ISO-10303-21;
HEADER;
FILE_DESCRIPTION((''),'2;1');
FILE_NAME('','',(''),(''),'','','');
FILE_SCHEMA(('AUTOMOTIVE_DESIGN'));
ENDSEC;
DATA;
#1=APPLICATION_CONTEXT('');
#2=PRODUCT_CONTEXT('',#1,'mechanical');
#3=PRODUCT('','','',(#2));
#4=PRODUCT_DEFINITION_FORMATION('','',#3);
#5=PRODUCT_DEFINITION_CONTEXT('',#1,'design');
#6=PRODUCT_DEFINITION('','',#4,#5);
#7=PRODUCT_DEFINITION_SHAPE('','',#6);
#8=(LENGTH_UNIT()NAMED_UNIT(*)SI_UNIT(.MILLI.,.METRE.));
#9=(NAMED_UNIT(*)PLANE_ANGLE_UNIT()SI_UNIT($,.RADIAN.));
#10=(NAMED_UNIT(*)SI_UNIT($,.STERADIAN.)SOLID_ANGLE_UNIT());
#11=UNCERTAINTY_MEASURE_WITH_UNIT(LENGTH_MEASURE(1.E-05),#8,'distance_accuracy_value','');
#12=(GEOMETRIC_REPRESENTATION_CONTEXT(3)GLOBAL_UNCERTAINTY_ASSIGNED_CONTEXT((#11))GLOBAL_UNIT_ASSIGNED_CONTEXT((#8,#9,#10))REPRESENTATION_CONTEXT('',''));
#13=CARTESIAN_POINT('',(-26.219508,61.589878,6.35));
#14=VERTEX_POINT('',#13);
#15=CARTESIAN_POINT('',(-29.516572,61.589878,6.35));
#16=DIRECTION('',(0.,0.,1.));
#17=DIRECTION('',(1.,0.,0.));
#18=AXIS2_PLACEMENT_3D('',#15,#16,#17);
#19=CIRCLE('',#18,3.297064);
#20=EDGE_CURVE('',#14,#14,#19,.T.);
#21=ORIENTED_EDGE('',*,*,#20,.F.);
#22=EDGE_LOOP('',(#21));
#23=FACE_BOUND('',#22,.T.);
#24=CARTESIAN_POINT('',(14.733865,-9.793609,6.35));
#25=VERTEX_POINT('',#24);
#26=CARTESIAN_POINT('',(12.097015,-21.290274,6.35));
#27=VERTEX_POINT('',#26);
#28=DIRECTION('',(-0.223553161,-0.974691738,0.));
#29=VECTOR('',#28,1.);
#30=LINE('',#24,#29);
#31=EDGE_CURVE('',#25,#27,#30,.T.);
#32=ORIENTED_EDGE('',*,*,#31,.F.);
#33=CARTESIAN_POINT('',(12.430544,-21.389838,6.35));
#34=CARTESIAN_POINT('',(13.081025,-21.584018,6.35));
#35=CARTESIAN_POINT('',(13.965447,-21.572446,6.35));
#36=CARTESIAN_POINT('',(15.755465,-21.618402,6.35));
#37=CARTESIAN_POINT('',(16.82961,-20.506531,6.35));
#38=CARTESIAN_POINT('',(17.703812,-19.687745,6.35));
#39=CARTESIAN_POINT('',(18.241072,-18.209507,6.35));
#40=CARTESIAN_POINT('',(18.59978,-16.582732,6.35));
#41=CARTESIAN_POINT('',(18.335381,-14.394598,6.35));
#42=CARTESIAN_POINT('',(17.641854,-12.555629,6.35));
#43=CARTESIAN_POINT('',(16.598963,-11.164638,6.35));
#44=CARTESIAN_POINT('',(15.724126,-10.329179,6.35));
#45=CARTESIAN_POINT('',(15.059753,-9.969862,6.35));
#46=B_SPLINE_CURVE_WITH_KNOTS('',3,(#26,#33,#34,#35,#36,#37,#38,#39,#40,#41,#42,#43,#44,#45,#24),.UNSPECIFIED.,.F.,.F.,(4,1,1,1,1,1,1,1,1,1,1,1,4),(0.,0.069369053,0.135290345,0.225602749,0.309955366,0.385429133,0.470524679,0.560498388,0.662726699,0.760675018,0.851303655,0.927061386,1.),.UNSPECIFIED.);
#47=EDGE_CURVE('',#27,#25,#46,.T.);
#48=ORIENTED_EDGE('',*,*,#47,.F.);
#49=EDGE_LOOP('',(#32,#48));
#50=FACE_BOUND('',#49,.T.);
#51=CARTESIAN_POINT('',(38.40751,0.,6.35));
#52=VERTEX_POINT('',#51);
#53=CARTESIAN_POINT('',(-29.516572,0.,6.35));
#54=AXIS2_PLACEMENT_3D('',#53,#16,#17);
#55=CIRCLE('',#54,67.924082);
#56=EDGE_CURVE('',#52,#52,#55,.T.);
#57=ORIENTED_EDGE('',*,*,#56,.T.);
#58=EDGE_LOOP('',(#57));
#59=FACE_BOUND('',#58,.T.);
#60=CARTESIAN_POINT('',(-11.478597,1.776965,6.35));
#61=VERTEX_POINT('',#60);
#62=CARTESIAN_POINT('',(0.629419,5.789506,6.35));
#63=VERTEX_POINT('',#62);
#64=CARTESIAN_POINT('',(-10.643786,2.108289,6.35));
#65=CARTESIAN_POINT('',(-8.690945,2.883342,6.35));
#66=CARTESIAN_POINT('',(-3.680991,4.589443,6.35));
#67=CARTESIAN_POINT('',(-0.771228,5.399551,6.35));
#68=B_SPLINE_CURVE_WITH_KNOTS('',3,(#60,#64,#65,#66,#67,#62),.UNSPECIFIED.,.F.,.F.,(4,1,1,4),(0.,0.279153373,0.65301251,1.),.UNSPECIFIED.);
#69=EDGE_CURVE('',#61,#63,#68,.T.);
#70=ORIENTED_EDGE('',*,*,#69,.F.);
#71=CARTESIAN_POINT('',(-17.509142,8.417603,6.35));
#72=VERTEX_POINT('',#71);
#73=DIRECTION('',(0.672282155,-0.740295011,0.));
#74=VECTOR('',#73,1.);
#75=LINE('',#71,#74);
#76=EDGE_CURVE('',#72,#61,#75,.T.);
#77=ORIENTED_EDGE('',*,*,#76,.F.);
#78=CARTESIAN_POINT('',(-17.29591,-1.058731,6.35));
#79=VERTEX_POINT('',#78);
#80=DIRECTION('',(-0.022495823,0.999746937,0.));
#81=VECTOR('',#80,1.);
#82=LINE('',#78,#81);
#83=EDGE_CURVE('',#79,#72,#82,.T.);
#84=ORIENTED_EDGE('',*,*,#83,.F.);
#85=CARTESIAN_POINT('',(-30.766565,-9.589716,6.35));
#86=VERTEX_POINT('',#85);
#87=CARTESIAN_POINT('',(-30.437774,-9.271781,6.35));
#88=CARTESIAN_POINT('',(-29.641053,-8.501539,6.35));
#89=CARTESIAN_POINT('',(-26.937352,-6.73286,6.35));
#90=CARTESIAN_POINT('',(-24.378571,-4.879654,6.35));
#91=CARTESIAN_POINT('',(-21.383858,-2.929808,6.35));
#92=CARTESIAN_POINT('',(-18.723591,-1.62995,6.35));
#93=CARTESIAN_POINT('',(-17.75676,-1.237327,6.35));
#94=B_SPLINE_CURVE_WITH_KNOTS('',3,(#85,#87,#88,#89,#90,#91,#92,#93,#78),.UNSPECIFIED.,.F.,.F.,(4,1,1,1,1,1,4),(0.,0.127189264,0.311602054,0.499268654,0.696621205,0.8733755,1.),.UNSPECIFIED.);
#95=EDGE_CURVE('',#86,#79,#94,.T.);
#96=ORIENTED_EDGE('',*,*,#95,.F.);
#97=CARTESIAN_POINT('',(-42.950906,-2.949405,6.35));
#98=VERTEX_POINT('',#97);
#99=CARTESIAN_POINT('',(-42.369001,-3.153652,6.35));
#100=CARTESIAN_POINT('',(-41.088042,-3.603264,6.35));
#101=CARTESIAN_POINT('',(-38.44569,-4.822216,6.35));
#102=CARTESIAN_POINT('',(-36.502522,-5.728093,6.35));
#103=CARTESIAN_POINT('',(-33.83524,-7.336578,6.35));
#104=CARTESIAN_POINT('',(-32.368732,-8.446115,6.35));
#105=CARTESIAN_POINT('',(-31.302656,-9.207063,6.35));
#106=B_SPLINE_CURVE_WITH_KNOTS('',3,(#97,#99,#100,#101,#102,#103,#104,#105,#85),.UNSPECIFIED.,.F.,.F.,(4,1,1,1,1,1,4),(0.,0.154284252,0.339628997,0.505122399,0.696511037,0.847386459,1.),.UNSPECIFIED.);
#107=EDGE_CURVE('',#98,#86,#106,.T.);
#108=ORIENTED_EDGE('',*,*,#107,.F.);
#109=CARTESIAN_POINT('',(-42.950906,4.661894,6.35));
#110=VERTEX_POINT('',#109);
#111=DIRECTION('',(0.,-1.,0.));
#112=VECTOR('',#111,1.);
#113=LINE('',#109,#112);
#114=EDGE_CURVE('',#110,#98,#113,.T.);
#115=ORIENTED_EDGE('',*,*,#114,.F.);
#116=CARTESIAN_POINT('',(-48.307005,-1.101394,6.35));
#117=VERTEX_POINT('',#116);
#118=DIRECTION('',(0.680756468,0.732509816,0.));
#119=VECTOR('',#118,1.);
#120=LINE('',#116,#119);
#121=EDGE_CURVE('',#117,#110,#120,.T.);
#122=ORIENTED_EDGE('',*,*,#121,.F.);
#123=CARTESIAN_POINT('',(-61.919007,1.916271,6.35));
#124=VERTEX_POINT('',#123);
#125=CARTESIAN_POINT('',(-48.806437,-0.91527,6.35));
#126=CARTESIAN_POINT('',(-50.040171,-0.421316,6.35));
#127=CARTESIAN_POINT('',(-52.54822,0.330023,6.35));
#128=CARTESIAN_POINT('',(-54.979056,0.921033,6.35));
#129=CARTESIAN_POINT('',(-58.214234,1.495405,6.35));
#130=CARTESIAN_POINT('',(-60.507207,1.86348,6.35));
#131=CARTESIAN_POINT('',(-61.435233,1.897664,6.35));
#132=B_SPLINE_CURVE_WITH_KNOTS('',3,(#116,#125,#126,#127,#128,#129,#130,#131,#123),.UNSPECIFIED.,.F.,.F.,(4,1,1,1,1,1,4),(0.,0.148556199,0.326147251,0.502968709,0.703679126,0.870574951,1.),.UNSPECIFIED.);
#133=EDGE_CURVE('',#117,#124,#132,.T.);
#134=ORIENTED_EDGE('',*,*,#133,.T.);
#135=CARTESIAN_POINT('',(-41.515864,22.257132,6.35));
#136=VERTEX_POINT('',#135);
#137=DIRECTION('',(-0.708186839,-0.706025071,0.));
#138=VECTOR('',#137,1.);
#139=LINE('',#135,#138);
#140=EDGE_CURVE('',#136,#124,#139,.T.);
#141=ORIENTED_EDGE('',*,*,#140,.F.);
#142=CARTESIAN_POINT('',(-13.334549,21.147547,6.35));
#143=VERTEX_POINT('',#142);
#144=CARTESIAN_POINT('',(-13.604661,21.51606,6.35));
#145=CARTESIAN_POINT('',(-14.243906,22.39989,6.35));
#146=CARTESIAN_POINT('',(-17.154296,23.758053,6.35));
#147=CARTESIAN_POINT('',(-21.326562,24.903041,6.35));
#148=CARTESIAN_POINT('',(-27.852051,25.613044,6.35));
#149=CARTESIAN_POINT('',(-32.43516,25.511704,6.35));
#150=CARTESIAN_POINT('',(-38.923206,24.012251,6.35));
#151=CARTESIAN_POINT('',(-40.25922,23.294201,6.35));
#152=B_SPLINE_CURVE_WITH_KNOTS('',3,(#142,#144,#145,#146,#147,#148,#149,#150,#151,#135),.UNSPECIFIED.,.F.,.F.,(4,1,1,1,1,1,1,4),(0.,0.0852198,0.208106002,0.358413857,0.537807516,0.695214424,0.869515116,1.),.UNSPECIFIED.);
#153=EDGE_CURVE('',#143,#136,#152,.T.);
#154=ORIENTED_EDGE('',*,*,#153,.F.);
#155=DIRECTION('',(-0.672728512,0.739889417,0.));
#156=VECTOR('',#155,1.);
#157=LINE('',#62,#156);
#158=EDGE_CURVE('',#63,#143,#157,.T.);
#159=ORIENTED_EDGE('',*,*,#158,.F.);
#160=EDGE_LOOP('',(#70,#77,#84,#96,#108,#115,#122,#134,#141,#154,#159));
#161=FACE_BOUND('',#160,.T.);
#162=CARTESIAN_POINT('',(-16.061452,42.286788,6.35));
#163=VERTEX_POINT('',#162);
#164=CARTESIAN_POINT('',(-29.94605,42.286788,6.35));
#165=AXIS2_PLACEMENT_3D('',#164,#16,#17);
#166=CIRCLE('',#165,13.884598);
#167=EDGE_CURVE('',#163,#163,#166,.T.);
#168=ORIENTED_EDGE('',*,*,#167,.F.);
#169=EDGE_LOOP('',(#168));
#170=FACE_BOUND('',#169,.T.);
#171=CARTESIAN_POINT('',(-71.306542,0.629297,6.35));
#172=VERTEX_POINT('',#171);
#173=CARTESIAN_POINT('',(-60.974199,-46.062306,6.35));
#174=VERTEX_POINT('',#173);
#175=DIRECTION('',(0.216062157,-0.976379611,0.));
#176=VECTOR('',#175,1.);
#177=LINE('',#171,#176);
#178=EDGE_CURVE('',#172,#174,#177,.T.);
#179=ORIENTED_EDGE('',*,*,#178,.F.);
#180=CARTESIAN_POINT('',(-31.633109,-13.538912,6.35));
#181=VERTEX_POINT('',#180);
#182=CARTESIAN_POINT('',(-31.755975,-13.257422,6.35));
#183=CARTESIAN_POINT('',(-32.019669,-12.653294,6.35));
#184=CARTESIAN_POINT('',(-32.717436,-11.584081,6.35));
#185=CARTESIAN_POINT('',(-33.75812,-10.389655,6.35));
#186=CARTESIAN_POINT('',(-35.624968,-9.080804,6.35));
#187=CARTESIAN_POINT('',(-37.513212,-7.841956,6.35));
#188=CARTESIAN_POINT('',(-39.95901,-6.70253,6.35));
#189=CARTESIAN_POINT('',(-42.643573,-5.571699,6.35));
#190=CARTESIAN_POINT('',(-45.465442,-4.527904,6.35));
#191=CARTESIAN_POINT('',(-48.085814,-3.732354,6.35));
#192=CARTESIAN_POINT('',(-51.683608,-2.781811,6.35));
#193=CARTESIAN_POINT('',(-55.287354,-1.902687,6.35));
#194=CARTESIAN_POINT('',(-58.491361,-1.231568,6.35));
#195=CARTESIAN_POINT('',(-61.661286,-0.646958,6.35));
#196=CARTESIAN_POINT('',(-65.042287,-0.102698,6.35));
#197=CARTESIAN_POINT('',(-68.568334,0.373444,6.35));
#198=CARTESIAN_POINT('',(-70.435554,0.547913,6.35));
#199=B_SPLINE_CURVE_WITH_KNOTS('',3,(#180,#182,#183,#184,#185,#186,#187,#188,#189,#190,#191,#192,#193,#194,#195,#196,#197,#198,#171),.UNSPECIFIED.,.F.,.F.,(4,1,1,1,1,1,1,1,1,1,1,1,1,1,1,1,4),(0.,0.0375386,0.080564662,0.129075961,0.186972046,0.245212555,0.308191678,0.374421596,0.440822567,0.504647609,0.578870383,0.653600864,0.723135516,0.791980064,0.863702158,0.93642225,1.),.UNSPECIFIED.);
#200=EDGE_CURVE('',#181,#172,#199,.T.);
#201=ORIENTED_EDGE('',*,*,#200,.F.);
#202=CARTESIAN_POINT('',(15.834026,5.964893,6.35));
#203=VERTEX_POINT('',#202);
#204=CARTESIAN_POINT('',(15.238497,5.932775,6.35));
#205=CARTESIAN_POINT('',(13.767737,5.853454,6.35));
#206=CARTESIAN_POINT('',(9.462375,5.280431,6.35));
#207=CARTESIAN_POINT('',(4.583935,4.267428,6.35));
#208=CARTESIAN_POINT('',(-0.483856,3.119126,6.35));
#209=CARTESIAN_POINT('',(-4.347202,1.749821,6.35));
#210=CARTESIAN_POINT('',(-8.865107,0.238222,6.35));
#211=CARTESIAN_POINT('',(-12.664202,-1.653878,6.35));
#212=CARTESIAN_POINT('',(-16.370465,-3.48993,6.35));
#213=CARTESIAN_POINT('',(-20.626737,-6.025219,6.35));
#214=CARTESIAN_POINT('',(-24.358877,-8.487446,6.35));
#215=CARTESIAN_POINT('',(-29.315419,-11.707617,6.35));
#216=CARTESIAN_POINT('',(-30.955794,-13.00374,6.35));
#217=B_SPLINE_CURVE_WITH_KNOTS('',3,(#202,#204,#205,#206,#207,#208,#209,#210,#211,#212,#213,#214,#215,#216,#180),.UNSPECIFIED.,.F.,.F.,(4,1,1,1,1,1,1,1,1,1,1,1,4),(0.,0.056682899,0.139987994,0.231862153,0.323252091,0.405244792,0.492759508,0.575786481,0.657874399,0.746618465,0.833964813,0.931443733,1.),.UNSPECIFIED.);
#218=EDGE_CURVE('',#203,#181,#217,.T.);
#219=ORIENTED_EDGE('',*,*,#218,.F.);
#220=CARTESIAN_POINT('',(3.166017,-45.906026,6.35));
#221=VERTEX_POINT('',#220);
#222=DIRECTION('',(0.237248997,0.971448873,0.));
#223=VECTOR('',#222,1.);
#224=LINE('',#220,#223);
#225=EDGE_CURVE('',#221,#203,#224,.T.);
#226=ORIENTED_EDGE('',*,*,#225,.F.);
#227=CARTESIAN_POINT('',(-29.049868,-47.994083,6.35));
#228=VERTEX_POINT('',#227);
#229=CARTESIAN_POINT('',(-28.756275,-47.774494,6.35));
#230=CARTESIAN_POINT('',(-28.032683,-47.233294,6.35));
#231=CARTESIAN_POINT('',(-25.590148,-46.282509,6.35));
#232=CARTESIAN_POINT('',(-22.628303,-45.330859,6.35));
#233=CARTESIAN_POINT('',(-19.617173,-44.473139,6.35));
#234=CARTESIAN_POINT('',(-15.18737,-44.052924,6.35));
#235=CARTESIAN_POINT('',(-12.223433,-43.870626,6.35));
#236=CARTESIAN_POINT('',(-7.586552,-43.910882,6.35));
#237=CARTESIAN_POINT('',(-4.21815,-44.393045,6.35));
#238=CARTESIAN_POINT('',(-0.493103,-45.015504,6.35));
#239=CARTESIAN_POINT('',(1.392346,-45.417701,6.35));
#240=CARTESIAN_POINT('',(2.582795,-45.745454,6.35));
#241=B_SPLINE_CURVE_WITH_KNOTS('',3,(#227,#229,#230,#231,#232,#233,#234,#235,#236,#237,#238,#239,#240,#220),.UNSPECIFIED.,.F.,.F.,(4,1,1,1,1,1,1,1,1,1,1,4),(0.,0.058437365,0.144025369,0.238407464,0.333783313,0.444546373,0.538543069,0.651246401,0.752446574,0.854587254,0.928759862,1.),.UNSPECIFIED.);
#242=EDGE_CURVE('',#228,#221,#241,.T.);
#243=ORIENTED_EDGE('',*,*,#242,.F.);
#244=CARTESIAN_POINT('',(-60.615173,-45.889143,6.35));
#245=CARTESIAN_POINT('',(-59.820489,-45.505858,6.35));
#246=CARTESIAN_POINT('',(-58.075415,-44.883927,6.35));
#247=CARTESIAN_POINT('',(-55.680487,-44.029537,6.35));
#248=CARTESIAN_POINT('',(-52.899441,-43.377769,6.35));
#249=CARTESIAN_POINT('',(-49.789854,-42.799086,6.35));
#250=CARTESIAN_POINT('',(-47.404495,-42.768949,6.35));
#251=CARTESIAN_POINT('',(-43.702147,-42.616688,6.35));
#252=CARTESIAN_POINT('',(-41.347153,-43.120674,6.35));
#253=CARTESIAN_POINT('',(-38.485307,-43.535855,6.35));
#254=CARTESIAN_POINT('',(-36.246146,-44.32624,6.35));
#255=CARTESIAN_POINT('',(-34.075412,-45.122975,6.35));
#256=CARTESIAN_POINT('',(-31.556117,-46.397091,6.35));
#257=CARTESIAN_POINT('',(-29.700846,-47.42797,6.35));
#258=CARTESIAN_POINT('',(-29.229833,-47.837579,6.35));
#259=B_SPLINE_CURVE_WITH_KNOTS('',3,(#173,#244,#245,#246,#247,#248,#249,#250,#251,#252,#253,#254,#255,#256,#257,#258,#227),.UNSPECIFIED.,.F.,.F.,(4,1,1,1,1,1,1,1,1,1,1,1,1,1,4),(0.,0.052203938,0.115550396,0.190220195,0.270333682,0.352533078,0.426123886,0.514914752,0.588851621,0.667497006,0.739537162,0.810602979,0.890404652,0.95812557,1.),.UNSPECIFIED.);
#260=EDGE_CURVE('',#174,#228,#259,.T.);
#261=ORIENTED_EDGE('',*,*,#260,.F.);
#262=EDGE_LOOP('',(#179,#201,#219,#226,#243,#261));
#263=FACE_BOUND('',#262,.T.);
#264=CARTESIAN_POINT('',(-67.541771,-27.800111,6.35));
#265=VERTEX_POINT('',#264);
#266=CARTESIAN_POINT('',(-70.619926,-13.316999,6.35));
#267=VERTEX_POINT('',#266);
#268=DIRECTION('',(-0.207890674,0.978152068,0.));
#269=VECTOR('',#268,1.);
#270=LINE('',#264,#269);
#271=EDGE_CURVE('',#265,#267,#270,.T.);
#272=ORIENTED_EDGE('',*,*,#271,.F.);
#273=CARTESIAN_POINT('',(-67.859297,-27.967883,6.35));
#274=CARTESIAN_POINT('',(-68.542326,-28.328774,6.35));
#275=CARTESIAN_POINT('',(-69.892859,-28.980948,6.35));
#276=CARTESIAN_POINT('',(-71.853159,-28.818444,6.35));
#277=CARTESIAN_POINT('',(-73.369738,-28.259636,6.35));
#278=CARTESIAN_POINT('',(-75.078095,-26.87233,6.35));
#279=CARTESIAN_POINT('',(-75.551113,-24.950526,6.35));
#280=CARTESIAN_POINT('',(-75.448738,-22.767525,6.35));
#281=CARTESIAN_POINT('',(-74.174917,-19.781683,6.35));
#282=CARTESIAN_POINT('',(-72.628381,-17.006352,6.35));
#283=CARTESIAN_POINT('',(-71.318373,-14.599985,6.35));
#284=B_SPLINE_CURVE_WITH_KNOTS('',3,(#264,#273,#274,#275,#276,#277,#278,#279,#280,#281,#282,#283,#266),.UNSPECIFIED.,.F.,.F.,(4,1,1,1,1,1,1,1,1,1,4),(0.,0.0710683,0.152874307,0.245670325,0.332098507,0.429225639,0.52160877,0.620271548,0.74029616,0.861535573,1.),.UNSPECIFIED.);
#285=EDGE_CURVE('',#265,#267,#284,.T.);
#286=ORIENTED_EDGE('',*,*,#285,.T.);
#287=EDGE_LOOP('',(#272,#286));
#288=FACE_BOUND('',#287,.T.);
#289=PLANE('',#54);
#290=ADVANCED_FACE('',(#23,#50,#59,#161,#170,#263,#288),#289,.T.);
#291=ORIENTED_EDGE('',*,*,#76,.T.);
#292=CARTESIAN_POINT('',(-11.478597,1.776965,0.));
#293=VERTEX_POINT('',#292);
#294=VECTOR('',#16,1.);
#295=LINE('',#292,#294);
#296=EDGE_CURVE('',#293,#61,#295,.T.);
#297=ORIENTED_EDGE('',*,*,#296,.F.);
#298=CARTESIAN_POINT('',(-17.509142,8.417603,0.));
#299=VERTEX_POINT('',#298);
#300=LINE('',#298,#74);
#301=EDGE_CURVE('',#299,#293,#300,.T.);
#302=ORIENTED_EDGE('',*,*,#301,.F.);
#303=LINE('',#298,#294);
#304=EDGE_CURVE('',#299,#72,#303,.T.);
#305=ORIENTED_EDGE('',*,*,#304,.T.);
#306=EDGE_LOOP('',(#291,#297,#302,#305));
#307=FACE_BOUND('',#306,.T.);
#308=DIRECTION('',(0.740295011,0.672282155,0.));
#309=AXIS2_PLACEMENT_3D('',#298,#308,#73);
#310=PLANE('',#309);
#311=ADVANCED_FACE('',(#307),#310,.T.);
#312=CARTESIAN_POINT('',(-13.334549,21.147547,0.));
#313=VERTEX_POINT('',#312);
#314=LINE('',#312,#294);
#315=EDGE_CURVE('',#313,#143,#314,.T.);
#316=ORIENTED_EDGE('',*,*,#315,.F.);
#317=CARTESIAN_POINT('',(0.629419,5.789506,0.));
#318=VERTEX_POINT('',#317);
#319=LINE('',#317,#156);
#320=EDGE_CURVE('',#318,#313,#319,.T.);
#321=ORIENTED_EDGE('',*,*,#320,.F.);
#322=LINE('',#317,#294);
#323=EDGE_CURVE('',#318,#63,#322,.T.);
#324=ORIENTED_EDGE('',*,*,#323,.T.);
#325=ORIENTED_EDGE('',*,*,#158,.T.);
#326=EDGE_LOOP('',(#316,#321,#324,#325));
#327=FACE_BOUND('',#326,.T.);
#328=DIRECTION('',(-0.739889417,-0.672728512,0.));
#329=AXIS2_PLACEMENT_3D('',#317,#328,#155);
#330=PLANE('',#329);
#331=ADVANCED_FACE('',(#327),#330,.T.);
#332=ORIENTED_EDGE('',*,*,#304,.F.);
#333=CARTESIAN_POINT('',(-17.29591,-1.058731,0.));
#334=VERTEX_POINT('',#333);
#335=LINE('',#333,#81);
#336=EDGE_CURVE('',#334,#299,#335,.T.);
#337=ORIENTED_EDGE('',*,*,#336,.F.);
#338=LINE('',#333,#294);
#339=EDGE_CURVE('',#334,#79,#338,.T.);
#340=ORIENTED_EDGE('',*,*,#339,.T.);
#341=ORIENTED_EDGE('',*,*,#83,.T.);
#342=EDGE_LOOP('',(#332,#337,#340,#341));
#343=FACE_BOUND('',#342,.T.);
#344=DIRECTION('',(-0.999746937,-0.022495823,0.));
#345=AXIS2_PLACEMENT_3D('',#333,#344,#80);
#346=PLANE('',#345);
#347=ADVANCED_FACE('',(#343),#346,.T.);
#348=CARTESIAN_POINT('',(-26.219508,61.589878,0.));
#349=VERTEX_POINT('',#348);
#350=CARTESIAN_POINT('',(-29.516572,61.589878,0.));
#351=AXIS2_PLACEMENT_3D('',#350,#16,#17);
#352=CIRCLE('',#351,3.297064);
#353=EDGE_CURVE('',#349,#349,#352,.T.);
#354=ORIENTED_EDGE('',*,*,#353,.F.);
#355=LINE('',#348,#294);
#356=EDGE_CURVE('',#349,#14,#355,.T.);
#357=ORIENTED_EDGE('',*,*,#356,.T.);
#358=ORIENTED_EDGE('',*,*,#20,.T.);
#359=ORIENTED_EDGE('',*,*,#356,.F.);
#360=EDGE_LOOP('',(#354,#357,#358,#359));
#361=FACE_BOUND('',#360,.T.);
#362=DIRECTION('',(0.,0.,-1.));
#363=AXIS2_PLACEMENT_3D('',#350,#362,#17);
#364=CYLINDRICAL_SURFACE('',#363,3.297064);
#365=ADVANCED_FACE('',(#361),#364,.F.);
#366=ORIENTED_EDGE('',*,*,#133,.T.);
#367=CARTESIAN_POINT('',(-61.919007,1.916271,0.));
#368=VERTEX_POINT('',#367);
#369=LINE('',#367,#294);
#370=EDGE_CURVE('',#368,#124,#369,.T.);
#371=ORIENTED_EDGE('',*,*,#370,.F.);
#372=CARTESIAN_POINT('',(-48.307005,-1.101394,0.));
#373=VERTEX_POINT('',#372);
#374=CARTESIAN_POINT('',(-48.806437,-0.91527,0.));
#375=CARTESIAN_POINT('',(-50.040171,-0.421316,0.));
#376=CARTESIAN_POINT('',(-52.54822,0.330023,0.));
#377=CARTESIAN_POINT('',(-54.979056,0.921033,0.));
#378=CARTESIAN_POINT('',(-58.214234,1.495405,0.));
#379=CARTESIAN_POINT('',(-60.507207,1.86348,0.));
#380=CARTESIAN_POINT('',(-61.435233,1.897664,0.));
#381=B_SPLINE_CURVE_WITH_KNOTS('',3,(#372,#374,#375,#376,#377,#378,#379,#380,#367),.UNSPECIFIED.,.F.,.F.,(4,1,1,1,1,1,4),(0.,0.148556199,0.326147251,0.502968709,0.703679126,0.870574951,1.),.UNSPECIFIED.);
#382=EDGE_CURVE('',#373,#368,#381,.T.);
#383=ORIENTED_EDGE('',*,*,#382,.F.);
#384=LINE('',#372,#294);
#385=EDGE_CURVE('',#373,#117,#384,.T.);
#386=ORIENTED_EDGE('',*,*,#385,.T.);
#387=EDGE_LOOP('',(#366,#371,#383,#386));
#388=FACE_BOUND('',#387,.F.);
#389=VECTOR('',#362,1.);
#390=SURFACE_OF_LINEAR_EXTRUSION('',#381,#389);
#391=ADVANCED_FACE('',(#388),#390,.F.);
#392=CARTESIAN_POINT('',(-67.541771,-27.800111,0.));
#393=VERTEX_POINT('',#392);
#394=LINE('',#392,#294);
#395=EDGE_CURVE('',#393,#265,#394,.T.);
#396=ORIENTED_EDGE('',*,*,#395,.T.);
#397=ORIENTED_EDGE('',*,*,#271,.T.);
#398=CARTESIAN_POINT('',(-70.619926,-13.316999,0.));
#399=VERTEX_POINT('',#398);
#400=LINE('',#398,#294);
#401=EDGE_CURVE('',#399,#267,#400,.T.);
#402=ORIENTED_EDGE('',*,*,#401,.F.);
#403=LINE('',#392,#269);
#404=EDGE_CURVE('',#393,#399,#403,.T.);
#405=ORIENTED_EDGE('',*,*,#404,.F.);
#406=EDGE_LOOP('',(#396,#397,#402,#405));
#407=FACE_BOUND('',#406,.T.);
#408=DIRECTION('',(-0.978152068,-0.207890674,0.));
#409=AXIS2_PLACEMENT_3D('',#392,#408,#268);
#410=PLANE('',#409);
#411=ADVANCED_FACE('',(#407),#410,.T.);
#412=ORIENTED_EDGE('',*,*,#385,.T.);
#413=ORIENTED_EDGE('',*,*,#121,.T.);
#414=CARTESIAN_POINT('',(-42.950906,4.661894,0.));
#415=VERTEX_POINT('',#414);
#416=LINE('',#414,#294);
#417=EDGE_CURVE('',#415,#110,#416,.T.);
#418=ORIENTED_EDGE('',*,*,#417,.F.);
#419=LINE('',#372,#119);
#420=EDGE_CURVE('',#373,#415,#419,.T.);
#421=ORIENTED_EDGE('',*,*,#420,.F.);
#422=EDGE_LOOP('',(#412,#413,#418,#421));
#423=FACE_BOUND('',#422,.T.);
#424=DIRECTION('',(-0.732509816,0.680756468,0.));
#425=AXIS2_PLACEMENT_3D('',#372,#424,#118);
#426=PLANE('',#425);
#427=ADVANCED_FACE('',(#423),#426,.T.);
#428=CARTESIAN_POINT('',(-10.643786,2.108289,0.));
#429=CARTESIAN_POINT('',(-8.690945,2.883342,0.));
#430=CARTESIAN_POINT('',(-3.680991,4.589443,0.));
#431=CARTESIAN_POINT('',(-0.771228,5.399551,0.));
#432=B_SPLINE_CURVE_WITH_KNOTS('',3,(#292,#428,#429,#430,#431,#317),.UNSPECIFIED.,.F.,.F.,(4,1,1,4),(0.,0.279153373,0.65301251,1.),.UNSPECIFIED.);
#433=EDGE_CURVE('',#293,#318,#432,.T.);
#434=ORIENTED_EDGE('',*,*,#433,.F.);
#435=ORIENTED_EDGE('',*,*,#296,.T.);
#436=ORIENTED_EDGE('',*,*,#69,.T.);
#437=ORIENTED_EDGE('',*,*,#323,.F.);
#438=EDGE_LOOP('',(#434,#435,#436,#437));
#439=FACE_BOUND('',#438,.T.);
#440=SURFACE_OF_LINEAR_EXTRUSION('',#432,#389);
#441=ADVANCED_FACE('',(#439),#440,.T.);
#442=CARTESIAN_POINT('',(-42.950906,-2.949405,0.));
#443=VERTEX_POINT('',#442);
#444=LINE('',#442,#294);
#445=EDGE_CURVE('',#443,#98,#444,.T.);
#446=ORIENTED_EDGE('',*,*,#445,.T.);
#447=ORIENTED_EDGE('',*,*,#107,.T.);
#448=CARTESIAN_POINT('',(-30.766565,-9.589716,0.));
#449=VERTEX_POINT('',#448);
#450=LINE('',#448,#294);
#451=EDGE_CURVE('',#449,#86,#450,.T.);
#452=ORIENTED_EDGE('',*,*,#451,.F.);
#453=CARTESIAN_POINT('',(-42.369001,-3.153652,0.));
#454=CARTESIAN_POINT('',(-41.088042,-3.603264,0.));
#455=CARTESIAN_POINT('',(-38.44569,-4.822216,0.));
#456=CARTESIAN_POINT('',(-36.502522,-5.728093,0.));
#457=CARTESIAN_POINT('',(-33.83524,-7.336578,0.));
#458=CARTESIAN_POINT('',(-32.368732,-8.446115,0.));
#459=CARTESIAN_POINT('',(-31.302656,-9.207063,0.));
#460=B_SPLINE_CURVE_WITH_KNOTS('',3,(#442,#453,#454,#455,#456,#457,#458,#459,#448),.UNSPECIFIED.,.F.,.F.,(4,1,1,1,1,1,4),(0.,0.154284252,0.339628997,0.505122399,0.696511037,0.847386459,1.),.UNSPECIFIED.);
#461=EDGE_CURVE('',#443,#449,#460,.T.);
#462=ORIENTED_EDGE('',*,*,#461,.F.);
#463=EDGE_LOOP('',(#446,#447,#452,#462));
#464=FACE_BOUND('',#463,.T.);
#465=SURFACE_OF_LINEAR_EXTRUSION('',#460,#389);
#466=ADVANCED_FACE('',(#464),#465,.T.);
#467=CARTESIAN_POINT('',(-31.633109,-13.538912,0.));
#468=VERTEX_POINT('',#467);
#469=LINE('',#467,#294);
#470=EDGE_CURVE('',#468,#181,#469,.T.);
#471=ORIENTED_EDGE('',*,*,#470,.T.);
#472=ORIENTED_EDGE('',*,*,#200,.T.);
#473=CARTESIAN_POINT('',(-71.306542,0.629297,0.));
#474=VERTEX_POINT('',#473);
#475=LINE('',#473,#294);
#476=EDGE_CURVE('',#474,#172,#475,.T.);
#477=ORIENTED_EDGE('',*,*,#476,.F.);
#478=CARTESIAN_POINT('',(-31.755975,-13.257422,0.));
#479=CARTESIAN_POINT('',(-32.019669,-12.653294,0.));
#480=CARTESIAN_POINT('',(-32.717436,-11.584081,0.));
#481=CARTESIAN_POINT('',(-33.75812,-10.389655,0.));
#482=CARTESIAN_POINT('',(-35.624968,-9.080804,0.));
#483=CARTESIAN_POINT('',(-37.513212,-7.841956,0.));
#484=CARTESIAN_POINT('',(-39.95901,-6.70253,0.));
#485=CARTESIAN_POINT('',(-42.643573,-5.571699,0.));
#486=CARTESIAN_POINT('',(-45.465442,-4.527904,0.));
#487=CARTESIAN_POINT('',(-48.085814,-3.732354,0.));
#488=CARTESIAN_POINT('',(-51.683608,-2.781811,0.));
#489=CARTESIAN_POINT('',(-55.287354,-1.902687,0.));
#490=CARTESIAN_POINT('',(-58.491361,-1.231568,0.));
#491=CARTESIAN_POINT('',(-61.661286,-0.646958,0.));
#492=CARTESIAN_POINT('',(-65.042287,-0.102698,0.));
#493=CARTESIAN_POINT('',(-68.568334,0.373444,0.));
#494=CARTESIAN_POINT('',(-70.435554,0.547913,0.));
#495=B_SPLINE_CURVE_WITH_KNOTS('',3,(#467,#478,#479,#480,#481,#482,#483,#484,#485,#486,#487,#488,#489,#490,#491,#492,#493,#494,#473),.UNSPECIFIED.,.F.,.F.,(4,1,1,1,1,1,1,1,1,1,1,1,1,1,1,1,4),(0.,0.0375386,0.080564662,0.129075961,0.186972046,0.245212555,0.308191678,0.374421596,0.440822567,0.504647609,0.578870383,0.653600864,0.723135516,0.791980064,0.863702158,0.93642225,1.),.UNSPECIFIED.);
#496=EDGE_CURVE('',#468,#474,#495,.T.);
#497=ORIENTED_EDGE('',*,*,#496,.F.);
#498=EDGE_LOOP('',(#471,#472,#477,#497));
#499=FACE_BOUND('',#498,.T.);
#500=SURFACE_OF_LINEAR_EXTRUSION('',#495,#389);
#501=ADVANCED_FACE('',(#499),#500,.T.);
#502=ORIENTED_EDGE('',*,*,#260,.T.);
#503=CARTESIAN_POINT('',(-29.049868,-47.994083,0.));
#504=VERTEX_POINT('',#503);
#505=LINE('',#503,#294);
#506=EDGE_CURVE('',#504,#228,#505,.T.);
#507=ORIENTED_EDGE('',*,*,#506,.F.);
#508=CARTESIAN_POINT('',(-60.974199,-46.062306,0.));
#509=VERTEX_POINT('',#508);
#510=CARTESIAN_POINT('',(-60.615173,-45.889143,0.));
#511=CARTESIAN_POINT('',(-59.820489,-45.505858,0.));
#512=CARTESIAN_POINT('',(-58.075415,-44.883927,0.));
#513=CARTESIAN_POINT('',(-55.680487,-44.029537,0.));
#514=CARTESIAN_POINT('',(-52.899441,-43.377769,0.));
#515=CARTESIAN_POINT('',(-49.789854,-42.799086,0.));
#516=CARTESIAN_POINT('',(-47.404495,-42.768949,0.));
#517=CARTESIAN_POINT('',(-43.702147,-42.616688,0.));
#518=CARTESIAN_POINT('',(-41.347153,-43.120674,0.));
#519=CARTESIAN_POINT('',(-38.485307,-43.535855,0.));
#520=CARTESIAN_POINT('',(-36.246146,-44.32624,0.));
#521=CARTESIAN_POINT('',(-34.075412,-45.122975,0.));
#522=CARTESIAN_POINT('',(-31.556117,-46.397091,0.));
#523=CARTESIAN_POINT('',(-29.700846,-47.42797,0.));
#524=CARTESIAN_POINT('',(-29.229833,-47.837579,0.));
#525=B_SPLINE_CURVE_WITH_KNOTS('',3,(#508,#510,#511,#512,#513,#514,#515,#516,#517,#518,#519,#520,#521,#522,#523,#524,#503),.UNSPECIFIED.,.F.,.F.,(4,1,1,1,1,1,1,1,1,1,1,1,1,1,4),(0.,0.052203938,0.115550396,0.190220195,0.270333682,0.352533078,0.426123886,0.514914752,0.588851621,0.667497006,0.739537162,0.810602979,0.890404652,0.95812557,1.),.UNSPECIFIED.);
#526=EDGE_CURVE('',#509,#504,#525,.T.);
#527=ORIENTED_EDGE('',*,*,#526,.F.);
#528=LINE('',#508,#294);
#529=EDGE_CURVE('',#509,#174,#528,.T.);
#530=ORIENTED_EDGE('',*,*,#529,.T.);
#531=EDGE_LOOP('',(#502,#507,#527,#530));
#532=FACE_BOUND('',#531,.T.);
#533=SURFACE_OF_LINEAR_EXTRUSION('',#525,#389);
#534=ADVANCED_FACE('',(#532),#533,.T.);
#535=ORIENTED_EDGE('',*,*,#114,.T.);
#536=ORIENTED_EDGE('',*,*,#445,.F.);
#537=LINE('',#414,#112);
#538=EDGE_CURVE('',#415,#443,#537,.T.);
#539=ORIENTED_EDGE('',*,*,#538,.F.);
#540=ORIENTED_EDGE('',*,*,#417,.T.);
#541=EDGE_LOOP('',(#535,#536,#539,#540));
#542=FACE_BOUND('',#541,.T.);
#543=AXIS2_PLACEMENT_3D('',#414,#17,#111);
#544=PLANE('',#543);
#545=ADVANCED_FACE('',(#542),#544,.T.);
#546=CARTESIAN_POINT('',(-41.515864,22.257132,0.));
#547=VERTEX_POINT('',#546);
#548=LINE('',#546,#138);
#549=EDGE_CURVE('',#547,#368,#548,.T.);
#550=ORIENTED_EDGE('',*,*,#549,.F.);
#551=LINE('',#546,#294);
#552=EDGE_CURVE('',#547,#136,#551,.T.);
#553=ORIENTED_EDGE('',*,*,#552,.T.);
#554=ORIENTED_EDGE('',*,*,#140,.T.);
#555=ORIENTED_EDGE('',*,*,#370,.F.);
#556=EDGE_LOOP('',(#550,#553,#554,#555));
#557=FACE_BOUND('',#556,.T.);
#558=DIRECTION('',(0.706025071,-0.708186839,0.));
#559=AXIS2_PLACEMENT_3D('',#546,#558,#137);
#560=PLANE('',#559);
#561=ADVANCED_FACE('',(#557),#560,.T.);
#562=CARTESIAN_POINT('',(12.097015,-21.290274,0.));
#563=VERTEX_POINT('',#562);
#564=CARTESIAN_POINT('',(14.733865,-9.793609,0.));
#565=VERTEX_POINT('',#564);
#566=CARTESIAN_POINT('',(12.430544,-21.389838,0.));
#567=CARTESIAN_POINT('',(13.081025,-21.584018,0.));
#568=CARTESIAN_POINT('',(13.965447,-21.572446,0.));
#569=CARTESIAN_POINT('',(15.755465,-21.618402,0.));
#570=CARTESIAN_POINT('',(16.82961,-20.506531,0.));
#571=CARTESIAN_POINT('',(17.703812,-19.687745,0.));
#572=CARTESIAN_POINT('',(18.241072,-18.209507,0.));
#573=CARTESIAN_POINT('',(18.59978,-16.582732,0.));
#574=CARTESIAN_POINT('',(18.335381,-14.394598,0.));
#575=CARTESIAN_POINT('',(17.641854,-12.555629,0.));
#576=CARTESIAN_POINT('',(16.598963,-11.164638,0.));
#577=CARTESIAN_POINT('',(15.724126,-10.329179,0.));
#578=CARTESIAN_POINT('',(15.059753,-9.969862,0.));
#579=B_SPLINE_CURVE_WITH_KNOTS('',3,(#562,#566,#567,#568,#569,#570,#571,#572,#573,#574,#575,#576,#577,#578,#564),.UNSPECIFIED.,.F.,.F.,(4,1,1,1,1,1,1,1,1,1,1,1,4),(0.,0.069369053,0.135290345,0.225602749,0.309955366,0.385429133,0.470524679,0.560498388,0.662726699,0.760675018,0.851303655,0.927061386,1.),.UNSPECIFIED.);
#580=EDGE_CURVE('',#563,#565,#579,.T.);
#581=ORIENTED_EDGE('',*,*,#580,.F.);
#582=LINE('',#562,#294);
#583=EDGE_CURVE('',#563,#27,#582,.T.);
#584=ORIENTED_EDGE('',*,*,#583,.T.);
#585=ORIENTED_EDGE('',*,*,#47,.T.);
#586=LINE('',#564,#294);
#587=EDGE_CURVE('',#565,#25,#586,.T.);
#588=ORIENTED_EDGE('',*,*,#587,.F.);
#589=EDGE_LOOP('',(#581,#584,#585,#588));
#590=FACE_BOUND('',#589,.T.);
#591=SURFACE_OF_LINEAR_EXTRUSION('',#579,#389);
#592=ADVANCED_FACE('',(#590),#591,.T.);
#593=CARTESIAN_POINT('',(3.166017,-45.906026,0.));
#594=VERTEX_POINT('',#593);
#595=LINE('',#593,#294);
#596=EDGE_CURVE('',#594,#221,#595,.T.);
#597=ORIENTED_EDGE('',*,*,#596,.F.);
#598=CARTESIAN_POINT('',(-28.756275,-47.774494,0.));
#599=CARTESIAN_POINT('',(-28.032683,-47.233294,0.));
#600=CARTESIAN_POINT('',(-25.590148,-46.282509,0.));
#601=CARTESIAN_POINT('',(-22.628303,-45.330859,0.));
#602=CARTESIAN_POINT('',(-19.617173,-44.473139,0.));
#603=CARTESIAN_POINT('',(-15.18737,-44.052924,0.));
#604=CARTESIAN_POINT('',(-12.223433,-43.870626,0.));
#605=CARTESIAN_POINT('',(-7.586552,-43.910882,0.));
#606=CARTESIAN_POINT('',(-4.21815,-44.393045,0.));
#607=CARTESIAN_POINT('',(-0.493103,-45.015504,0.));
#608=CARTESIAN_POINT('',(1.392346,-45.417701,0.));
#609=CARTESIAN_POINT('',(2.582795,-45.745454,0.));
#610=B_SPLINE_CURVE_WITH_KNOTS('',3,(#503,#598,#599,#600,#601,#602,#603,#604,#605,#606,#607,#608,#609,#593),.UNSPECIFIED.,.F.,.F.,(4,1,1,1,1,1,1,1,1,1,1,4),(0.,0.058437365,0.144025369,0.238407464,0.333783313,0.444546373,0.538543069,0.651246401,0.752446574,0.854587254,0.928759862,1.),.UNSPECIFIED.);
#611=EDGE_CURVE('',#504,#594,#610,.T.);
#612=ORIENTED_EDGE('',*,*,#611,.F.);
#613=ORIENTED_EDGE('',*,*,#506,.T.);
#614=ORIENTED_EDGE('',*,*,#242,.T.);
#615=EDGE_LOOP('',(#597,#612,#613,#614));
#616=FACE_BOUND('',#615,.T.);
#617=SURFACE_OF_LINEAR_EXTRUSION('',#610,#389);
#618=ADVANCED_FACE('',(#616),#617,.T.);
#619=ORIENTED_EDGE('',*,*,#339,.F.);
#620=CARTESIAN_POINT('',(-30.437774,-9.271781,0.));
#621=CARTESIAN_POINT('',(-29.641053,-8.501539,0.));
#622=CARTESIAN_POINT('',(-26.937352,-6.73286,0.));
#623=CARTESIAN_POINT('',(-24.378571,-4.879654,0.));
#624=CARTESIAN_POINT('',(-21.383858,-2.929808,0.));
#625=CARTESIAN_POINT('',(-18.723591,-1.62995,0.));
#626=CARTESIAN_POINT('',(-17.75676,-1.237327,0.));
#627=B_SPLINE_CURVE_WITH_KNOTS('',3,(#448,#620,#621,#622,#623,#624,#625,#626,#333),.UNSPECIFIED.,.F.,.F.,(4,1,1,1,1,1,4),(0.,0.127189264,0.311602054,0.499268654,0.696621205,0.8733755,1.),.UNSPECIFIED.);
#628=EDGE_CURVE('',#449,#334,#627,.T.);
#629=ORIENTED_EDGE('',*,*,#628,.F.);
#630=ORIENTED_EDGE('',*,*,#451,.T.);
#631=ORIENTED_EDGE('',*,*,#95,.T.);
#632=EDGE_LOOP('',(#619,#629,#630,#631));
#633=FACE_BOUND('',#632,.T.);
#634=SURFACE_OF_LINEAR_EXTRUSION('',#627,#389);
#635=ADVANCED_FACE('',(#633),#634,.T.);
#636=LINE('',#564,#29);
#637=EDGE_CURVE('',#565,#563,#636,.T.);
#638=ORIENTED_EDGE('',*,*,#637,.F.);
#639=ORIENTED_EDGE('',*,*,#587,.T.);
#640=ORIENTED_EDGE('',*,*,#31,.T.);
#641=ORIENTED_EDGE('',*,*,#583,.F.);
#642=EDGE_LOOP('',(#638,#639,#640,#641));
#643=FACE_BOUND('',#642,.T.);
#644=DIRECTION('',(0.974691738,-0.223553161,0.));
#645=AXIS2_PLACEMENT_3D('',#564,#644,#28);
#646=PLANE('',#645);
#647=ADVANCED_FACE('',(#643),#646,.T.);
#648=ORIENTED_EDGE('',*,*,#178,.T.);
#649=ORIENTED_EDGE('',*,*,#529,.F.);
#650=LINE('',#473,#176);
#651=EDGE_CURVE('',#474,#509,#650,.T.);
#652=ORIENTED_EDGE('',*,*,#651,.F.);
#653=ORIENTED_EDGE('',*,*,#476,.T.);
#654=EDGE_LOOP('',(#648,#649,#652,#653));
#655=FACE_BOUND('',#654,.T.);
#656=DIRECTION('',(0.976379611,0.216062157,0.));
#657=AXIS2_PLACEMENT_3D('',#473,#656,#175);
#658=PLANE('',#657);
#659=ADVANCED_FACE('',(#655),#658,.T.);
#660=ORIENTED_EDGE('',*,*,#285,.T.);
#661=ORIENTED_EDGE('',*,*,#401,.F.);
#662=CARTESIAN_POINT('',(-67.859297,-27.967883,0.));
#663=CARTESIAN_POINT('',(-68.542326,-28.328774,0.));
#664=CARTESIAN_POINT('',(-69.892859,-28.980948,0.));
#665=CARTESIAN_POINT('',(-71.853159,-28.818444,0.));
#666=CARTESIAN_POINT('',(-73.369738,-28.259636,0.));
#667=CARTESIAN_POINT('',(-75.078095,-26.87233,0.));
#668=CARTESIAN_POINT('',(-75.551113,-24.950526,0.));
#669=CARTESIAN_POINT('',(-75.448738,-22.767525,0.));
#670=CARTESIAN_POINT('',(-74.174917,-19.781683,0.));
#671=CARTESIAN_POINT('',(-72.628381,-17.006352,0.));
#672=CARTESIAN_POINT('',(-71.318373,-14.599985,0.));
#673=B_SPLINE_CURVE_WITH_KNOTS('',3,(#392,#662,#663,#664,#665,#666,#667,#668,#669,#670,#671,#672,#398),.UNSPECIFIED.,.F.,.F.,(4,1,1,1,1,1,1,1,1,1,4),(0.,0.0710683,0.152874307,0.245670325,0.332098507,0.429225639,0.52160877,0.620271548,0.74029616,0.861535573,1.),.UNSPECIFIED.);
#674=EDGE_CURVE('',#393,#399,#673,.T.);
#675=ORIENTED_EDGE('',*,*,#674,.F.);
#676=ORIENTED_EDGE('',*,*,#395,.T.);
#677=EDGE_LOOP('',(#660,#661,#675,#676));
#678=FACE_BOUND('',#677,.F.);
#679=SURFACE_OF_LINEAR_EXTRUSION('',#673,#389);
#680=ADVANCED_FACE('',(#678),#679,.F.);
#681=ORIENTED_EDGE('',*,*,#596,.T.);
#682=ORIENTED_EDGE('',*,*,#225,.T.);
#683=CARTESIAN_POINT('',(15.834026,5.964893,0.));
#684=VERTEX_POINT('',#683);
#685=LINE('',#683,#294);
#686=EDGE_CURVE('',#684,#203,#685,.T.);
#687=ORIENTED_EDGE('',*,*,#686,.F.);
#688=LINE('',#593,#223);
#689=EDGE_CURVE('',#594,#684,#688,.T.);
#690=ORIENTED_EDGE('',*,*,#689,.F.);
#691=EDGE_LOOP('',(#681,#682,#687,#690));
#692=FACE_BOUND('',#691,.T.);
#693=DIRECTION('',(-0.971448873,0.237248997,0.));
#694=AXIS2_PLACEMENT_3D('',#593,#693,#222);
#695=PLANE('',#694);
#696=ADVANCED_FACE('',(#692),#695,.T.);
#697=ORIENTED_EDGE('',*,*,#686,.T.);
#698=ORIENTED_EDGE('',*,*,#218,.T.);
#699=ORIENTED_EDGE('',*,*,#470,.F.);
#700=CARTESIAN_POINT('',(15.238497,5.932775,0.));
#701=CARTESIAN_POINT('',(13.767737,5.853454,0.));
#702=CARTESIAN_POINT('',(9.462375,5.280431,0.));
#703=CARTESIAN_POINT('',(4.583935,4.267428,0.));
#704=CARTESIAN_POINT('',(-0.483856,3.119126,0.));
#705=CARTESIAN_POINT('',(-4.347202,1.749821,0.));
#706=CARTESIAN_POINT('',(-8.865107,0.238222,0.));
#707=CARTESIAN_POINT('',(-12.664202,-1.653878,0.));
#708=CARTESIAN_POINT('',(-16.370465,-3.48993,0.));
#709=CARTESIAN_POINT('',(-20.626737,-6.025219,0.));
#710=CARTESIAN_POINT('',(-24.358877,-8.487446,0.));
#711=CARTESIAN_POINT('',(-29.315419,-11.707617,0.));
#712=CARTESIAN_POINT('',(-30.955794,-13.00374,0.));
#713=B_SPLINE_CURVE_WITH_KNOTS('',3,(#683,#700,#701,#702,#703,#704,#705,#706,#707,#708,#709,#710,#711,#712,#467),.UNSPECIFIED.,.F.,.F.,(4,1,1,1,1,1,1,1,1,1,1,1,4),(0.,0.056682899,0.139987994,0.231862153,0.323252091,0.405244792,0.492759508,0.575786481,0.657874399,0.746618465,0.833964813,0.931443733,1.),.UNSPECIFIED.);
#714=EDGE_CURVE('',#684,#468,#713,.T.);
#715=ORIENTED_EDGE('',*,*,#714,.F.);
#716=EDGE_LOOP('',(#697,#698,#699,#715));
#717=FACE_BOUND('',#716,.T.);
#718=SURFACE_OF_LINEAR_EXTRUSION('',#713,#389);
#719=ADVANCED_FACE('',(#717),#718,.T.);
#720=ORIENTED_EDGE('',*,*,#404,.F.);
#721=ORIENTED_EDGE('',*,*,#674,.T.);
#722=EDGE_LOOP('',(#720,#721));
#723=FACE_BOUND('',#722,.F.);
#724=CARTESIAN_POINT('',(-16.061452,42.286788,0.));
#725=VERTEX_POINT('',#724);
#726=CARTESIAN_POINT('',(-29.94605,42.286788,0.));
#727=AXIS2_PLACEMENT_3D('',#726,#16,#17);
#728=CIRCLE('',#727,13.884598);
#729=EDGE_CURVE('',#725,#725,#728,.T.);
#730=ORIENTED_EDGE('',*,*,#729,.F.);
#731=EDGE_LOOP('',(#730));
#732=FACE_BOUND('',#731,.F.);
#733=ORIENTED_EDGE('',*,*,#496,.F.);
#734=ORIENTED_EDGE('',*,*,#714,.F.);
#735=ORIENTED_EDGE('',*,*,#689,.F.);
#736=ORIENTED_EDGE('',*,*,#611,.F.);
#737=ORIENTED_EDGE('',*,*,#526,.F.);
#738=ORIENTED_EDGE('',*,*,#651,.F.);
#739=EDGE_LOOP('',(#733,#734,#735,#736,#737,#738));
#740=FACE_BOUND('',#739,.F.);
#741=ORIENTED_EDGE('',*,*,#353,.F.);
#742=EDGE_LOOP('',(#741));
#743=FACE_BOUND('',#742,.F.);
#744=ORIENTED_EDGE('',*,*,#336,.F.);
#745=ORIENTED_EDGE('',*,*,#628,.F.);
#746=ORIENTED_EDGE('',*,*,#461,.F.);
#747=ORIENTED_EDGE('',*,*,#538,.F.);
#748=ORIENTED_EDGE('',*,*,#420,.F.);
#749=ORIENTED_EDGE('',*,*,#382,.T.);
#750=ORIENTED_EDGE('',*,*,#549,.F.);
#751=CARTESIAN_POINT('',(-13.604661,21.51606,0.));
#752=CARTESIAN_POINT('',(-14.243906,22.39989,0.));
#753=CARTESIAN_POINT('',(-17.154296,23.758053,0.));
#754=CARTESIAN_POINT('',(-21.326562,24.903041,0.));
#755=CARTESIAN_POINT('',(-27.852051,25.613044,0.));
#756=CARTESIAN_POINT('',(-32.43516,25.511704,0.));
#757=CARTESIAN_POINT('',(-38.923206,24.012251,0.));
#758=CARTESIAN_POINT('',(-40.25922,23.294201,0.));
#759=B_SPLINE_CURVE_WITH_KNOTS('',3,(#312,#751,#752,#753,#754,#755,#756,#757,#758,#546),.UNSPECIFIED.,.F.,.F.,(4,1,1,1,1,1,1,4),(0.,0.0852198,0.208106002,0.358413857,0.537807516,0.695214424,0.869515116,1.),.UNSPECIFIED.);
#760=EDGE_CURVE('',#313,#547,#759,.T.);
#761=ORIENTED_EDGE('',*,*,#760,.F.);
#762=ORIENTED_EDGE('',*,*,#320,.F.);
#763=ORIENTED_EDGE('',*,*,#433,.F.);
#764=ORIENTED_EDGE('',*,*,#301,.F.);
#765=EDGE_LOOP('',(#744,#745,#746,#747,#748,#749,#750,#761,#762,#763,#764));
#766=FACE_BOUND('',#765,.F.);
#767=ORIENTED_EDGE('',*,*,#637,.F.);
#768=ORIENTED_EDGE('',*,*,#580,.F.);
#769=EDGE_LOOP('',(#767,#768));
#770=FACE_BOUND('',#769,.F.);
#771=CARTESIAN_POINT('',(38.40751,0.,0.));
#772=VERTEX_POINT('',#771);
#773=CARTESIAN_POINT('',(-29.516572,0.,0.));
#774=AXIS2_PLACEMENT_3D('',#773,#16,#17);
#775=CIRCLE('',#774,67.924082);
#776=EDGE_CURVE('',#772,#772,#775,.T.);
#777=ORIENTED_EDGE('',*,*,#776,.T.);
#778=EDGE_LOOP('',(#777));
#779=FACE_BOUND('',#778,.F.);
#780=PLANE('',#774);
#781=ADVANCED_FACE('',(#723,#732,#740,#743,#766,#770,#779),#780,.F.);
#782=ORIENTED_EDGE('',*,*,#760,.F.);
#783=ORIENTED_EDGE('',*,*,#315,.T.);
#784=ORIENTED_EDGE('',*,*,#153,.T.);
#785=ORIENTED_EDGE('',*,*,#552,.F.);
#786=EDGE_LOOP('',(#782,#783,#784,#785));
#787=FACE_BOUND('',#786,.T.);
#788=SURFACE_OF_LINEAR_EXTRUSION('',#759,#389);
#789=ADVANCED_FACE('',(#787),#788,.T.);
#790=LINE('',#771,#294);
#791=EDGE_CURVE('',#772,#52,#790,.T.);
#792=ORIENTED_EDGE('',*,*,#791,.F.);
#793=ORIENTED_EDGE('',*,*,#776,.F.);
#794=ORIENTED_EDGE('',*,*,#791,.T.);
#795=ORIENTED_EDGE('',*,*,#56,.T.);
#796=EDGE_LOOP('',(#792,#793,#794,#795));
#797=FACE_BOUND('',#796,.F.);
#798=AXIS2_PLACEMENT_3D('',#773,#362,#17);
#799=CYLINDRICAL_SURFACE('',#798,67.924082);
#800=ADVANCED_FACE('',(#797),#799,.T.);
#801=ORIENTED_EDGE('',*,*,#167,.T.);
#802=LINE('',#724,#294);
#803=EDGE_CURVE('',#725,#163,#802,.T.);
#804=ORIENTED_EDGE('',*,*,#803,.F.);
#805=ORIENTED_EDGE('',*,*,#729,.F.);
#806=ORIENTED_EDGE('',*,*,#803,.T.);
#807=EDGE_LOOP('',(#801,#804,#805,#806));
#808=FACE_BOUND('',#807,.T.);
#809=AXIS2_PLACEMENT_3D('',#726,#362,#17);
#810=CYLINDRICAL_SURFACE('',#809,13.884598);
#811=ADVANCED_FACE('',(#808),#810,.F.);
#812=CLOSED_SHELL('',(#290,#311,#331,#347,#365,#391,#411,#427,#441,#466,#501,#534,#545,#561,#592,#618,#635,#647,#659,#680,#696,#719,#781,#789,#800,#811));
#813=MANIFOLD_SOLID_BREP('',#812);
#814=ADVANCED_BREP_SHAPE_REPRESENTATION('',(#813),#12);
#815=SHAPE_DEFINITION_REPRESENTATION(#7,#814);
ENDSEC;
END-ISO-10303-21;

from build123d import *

# Parameters (mm, degrees)
F1_R     = 67.9240818275
F1_R_2   = 3.2970637352
F2_DEPTH = 6.35
F0_R     = 13.8845983505
F3_DEPTH = 6.35


with BuildPart() as f2:
    # F1 (on Top) → F2 (new body)
    with BuildSketch(Plane.XY):
        with Locations((-29.5165721327, 0)):
            Circle(F1_R)
        with Locations((-29.5165721327, 61.5898780525)):
            Circle(F1_R_2, mode=Mode.SUBTRACT)
    extrude(amount=F2_DEPTH)

    # F0 (on Top) → F3 (cut)
    with BuildSketch(Plane.XY):
        with BuildLine():
            add(Edge.make_bspline(
                [(-29.0498677641, -47.994083102), (-28.7562750483, -47.7744943748), (-28.0326832273, -47.233293594), (-25.5901475599, -46.2825085236), (-22.628303243, -45.3308594809), (-19.6171726554, -44.4731391282), (-15.1873701434, -44.0529235188), (-12.2234331544, -43.8706255299), (-7.5865516521, -43.9108818725), (-4.2181497721, -44.3930452447), (-0.4931025602, -45.0155043138), (1.39234573, -45.4177008249), (2.5827954274, -45.7454541012), (3.1660166569, -45.9060259163)],
                knots=[0, 0, 0, 0, 0.0584373646, 0.1440253685, 0.2384074636, 0.3337833128, 0.4445463725, 0.5385430693, 0.6512464007, 0.7524465741, 0.8545872542, 0.9287598623, 1, 1, 1, 1], degree=3))
            Line((3.1660166569, -45.9060259163), (15.8340260386, 5.9648929164))
            add(Edge.make_bspline(
                [(15.8340260386, 5.9648929164), (15.2384968235, 5.9327749915), (13.7677368409, 5.8534543514), (9.4623754806, 5.2804309627), (4.5839345102, 4.2674281698), (-0.4838561282, 3.1191257922), (-4.3472023994, 1.7498205974), (-8.865106749, 0.2382220688), (-12.6642021735, -1.6538779414), (-16.3704653674, -3.4899302211), (-20.6267373868, -6.0252186493), (-24.3588765036, -8.4874460643), (-29.3154189292, -11.7076169373), (-30.9557944538, -13.003740058), (-31.6331088543, -13.5389119387)],
                knots=[0, 0, 0, 0, 0.0566828993, 0.1399879937, 0.2318621526, 0.3232520906, 0.4052447923, 0.4927595075, 0.5757864811, 0.6578743994, 0.7466184655, 0.8339648127, 0.9314437325, 1, 1, 1, 1], degree=3))
            add(Edge.make_bspline(
                [(-31.6331088543, -13.5389119387), (-31.7559753606, -13.2574223409), (-32.0196692251, -12.6532944785), (-32.7174360962, -11.5840806695), (-33.7581196216, -10.3896553325), (-35.6249676026, -9.0808042113), (-37.513212275, -7.8419555334), (-39.9590098241, -6.7025302991), (-42.6435731092, -5.5716989936), (-45.4654422731, -4.5279038012), (-48.0858137167, -3.7323539864), (-51.6836075871, -2.7818105416), (-55.2873543074, -1.9026873303), (-58.4913611853, -1.2315675394), (-61.6612863142, -0.6469579575), (-65.0422872661, -0.1026984819), (-68.5683342745, 0.3734442186), (-70.4355544851, 0.5479134916), (-71.3065415621, 0.6292967591)],
                knots=[0, 0, 0, 0, 0.0375386, 0.0805646616, 0.1290759605, 0.1869720465, 0.245212555, 0.3081916776, 0.3744215958, 0.4408225673, 0.5046476095, 0.5788703832, 0.6536008643, 0.7231355156, 0.7919800641, 0.8637021576, 0.9364222502, 1, 1, 1, 1], degree=3))
            Line((-71.3065415621, 0.6292967591), (-60.9741993248, -46.0623055696))
            add(Edge.make_bspline(
                [(-60.9741993248, -46.0623055696), (-60.6151729445, -45.8891432414), (-59.8204888356, -45.5058584521), (-58.0754151915, -44.8839267704), (-55.6804866208, -44.0295365508), (-52.899440529, -43.3777685087), (-49.7898543048, -42.7990861879), (-47.4044953043, -42.7689488167), (-43.7021474647, -42.6166882508), (-41.3471534926, -43.1206743429), (-38.4853074258, -43.5358546676), (-36.2461458511, -44.3262400311), (-34.0754122427, -45.1229750276), (-31.556117416, -46.3970906091), (-29.700845648, -47.4279703562), (-29.2298332206, -47.8375789545), (-29.0498677641, -47.994083102)],
                knots=[0, 0, 0, 0, 0.0522039384, 0.1155503956, 0.1902201948, 0.2703336821, 0.3525330784, 0.4261238857, 0.5149147516, 0.5888516207, 0.6674970059, 0.7395371623, 0.8106029787, 0.8904046518, 0.9581255701, 1, 1, 1, 1], degree=3))
        make_face()
        with Locations((-29.9460499995, 42.2867882448)):
            Circle(F0_R)
        with BuildLine():
            Line((14.7338649258, -9.7936093807), (12.0970150456, -21.2902743369))
            add(Edge.make_bspline(
                [(12.0970150456, -21.2902743369), (12.4305441601, -21.3898383375), (13.0810254211, -21.5840178374), (13.965446666, -21.5724464281), (15.7554651618, -21.6184021643), (16.8296099665, -20.5065314961), (17.7038120002, -19.6877452516), (18.2410719919, -18.2095070718), (18.5997800341, -16.5827316107), (18.3353808507, -14.3945977554), (17.6418535632, -12.5556286434), (16.5989633088, -11.1646383857), (15.7241257156, -10.3291787179), (15.05975327, -9.969861744), (14.7338649258, -9.7936093807)],
                knots=[0, 0, 0, 0, 0.069369053, 0.1352903453, 0.2256027492, 0.3099553662, 0.3854291327, 0.4705246795, 0.5604983881, 0.6627266994, 0.7606750176, 0.8513036552, 0.9270613857, 1, 1, 1, 1], degree=3))
        make_face()
        with BuildLine():
            Line((-67.541770637, -27.8001111001), (-70.6199258566, -13.3169991896))
            add(Edge.make_bspline(
                [(-67.541770637, -27.8001111001), (-67.8592974548, -27.9678826055), (-68.5423262068, -28.3287742077), (-69.8928592225, -28.9809476863), (-71.8531585295, -28.8184438377), (-73.3697382485, -28.2596362107), (-75.0780945469, -26.8723304257), (-75.5511129776, -24.9505261106), (-75.4487384922, -22.7675251051), (-74.1749168858, -19.7816825627), (-72.6283809325, -17.0063518412), (-71.3183732321, -14.5999846583), (-70.6199258566, -13.3169991896)],
                knots=[0, 0, 0, 0, 0.0710682999, 0.1528743069, 0.2456703251, 0.3320985068, 0.4292256394, 0.5216087698, 0.6202715482, 0.7402961601, 0.8615355731, 1, 1, 1, 1], degree=3))
        make_face()
        with BuildLine():
            add(Edge.make_bspline(
                [(-48.307005316, -1.1013938347), (-48.806436791, -0.9152700344), (-50.0401714409, -0.4213164381), (-52.5482199289, 0.3300226769), (-54.9790562259, 0.9210327378), (-58.2142337763, 1.4954046457), (-60.5072072538, 1.8634804189), (-61.4352327642, 1.8976641634), (-61.9190074503, 1.9162708195)],
                knots=[0, 0, 0, 0, 0.1485561988, 0.3261472509, 0.5029687094, 0.7036791256, 0.8705749514, 1, 1, 1, 1], degree=3))
            Line((-48.307005316, -1.1013938347), (-42.9509058595, 4.6618939377))
            Line((-42.9509058595, 4.6618939377), (-42.9509058595, -2.9494049959))
            add(Edge.make_bspline(
                [(-42.9509058595, -2.9494049959), (-42.369001034, -3.1536515402), (-41.0880423516, -3.6032635263), (-38.4456896654, -4.8222161034), (-36.5025220165, -5.7280933104), (-33.8352399083, -7.3365775098), (-32.368731582, -8.4461148571), (-31.3026559449, -9.2070628451), (-30.7665653527, -9.5897158608)],
                knots=[0, 0, 0, 0, 0.1542842522, 0.3396289972, 0.505122399, 0.6965110369, 0.847386459, 1, 1, 1, 1], degree=3))
            add(Edge.make_bspline(
                [(-30.7665653527, -9.5897158608), (-30.4377735021, -9.2717806162), (-29.6410525398, -8.5015392638), (-26.9373515405, -6.7328604933), (-24.3785711846, -4.87965384), (-21.3838575318, -2.9298077051), (-18.7235908162, -1.6299498574), (-17.7567602172, -1.237326992), (-17.2959100455, -1.0587312281)],
                knots=[0, 0, 0, 0, 0.127189264, 0.3116020539, 0.4992686543, 0.6966212053, 0.8733754999, 1, 1, 1, 1], degree=3))
            Line((-17.2959100455, -1.0587312281), (-17.5091419369, 8.4176026285))
            Line((-17.5091419369, 8.4176026285), (-11.4785972983, 1.7769651022))
            add(Edge.make_bspline(
                [(-11.4785972983, 1.7769651022), (-10.643786198, 2.1082891187), (-8.690945412, 2.8833423644), (-3.6809913971, 4.5894429261), (-0.7712276092, 5.3995512093), (0.6294193445, 5.7895057835)],
                knots=[0, 0, 0, 0, 0.279153373, 0.6530125104, 1, 1, 1, 1], degree=3))
            Line((0.6294193445, 5.7895057835), (-13.3345490322, 21.1475472897))
            add(Edge.make_bspline(
                [(-13.3345490322, 21.1475472897), (-13.6046610438, 21.5160603278), (-14.2439055986, 22.3998900999), (-17.1542964167, 23.7580529541), (-21.3265620468, 24.9030413288), (-27.8520509757, 25.6130437225), (-32.4351599793, 25.5117042473), (-38.9232060036, 24.0122505989), (-40.2592197061, 23.2942011207), (-41.5158644319, 22.2571324557)],
                knots=[0, 0, 0, 0, 0.0852197997, 0.2081060021, 0.3584138568, 0.5378075164, 0.695214424, 0.8695151155, 1, 1, 1, 1], degree=3))
            Line((-41.5158644319, 22.2571324557), (-61.9190074503, 1.9162708195))
        make_face()
    extrude(amount=F3_DEPTH, mode=Mode.SUBTRACT)


solid = f2.part
